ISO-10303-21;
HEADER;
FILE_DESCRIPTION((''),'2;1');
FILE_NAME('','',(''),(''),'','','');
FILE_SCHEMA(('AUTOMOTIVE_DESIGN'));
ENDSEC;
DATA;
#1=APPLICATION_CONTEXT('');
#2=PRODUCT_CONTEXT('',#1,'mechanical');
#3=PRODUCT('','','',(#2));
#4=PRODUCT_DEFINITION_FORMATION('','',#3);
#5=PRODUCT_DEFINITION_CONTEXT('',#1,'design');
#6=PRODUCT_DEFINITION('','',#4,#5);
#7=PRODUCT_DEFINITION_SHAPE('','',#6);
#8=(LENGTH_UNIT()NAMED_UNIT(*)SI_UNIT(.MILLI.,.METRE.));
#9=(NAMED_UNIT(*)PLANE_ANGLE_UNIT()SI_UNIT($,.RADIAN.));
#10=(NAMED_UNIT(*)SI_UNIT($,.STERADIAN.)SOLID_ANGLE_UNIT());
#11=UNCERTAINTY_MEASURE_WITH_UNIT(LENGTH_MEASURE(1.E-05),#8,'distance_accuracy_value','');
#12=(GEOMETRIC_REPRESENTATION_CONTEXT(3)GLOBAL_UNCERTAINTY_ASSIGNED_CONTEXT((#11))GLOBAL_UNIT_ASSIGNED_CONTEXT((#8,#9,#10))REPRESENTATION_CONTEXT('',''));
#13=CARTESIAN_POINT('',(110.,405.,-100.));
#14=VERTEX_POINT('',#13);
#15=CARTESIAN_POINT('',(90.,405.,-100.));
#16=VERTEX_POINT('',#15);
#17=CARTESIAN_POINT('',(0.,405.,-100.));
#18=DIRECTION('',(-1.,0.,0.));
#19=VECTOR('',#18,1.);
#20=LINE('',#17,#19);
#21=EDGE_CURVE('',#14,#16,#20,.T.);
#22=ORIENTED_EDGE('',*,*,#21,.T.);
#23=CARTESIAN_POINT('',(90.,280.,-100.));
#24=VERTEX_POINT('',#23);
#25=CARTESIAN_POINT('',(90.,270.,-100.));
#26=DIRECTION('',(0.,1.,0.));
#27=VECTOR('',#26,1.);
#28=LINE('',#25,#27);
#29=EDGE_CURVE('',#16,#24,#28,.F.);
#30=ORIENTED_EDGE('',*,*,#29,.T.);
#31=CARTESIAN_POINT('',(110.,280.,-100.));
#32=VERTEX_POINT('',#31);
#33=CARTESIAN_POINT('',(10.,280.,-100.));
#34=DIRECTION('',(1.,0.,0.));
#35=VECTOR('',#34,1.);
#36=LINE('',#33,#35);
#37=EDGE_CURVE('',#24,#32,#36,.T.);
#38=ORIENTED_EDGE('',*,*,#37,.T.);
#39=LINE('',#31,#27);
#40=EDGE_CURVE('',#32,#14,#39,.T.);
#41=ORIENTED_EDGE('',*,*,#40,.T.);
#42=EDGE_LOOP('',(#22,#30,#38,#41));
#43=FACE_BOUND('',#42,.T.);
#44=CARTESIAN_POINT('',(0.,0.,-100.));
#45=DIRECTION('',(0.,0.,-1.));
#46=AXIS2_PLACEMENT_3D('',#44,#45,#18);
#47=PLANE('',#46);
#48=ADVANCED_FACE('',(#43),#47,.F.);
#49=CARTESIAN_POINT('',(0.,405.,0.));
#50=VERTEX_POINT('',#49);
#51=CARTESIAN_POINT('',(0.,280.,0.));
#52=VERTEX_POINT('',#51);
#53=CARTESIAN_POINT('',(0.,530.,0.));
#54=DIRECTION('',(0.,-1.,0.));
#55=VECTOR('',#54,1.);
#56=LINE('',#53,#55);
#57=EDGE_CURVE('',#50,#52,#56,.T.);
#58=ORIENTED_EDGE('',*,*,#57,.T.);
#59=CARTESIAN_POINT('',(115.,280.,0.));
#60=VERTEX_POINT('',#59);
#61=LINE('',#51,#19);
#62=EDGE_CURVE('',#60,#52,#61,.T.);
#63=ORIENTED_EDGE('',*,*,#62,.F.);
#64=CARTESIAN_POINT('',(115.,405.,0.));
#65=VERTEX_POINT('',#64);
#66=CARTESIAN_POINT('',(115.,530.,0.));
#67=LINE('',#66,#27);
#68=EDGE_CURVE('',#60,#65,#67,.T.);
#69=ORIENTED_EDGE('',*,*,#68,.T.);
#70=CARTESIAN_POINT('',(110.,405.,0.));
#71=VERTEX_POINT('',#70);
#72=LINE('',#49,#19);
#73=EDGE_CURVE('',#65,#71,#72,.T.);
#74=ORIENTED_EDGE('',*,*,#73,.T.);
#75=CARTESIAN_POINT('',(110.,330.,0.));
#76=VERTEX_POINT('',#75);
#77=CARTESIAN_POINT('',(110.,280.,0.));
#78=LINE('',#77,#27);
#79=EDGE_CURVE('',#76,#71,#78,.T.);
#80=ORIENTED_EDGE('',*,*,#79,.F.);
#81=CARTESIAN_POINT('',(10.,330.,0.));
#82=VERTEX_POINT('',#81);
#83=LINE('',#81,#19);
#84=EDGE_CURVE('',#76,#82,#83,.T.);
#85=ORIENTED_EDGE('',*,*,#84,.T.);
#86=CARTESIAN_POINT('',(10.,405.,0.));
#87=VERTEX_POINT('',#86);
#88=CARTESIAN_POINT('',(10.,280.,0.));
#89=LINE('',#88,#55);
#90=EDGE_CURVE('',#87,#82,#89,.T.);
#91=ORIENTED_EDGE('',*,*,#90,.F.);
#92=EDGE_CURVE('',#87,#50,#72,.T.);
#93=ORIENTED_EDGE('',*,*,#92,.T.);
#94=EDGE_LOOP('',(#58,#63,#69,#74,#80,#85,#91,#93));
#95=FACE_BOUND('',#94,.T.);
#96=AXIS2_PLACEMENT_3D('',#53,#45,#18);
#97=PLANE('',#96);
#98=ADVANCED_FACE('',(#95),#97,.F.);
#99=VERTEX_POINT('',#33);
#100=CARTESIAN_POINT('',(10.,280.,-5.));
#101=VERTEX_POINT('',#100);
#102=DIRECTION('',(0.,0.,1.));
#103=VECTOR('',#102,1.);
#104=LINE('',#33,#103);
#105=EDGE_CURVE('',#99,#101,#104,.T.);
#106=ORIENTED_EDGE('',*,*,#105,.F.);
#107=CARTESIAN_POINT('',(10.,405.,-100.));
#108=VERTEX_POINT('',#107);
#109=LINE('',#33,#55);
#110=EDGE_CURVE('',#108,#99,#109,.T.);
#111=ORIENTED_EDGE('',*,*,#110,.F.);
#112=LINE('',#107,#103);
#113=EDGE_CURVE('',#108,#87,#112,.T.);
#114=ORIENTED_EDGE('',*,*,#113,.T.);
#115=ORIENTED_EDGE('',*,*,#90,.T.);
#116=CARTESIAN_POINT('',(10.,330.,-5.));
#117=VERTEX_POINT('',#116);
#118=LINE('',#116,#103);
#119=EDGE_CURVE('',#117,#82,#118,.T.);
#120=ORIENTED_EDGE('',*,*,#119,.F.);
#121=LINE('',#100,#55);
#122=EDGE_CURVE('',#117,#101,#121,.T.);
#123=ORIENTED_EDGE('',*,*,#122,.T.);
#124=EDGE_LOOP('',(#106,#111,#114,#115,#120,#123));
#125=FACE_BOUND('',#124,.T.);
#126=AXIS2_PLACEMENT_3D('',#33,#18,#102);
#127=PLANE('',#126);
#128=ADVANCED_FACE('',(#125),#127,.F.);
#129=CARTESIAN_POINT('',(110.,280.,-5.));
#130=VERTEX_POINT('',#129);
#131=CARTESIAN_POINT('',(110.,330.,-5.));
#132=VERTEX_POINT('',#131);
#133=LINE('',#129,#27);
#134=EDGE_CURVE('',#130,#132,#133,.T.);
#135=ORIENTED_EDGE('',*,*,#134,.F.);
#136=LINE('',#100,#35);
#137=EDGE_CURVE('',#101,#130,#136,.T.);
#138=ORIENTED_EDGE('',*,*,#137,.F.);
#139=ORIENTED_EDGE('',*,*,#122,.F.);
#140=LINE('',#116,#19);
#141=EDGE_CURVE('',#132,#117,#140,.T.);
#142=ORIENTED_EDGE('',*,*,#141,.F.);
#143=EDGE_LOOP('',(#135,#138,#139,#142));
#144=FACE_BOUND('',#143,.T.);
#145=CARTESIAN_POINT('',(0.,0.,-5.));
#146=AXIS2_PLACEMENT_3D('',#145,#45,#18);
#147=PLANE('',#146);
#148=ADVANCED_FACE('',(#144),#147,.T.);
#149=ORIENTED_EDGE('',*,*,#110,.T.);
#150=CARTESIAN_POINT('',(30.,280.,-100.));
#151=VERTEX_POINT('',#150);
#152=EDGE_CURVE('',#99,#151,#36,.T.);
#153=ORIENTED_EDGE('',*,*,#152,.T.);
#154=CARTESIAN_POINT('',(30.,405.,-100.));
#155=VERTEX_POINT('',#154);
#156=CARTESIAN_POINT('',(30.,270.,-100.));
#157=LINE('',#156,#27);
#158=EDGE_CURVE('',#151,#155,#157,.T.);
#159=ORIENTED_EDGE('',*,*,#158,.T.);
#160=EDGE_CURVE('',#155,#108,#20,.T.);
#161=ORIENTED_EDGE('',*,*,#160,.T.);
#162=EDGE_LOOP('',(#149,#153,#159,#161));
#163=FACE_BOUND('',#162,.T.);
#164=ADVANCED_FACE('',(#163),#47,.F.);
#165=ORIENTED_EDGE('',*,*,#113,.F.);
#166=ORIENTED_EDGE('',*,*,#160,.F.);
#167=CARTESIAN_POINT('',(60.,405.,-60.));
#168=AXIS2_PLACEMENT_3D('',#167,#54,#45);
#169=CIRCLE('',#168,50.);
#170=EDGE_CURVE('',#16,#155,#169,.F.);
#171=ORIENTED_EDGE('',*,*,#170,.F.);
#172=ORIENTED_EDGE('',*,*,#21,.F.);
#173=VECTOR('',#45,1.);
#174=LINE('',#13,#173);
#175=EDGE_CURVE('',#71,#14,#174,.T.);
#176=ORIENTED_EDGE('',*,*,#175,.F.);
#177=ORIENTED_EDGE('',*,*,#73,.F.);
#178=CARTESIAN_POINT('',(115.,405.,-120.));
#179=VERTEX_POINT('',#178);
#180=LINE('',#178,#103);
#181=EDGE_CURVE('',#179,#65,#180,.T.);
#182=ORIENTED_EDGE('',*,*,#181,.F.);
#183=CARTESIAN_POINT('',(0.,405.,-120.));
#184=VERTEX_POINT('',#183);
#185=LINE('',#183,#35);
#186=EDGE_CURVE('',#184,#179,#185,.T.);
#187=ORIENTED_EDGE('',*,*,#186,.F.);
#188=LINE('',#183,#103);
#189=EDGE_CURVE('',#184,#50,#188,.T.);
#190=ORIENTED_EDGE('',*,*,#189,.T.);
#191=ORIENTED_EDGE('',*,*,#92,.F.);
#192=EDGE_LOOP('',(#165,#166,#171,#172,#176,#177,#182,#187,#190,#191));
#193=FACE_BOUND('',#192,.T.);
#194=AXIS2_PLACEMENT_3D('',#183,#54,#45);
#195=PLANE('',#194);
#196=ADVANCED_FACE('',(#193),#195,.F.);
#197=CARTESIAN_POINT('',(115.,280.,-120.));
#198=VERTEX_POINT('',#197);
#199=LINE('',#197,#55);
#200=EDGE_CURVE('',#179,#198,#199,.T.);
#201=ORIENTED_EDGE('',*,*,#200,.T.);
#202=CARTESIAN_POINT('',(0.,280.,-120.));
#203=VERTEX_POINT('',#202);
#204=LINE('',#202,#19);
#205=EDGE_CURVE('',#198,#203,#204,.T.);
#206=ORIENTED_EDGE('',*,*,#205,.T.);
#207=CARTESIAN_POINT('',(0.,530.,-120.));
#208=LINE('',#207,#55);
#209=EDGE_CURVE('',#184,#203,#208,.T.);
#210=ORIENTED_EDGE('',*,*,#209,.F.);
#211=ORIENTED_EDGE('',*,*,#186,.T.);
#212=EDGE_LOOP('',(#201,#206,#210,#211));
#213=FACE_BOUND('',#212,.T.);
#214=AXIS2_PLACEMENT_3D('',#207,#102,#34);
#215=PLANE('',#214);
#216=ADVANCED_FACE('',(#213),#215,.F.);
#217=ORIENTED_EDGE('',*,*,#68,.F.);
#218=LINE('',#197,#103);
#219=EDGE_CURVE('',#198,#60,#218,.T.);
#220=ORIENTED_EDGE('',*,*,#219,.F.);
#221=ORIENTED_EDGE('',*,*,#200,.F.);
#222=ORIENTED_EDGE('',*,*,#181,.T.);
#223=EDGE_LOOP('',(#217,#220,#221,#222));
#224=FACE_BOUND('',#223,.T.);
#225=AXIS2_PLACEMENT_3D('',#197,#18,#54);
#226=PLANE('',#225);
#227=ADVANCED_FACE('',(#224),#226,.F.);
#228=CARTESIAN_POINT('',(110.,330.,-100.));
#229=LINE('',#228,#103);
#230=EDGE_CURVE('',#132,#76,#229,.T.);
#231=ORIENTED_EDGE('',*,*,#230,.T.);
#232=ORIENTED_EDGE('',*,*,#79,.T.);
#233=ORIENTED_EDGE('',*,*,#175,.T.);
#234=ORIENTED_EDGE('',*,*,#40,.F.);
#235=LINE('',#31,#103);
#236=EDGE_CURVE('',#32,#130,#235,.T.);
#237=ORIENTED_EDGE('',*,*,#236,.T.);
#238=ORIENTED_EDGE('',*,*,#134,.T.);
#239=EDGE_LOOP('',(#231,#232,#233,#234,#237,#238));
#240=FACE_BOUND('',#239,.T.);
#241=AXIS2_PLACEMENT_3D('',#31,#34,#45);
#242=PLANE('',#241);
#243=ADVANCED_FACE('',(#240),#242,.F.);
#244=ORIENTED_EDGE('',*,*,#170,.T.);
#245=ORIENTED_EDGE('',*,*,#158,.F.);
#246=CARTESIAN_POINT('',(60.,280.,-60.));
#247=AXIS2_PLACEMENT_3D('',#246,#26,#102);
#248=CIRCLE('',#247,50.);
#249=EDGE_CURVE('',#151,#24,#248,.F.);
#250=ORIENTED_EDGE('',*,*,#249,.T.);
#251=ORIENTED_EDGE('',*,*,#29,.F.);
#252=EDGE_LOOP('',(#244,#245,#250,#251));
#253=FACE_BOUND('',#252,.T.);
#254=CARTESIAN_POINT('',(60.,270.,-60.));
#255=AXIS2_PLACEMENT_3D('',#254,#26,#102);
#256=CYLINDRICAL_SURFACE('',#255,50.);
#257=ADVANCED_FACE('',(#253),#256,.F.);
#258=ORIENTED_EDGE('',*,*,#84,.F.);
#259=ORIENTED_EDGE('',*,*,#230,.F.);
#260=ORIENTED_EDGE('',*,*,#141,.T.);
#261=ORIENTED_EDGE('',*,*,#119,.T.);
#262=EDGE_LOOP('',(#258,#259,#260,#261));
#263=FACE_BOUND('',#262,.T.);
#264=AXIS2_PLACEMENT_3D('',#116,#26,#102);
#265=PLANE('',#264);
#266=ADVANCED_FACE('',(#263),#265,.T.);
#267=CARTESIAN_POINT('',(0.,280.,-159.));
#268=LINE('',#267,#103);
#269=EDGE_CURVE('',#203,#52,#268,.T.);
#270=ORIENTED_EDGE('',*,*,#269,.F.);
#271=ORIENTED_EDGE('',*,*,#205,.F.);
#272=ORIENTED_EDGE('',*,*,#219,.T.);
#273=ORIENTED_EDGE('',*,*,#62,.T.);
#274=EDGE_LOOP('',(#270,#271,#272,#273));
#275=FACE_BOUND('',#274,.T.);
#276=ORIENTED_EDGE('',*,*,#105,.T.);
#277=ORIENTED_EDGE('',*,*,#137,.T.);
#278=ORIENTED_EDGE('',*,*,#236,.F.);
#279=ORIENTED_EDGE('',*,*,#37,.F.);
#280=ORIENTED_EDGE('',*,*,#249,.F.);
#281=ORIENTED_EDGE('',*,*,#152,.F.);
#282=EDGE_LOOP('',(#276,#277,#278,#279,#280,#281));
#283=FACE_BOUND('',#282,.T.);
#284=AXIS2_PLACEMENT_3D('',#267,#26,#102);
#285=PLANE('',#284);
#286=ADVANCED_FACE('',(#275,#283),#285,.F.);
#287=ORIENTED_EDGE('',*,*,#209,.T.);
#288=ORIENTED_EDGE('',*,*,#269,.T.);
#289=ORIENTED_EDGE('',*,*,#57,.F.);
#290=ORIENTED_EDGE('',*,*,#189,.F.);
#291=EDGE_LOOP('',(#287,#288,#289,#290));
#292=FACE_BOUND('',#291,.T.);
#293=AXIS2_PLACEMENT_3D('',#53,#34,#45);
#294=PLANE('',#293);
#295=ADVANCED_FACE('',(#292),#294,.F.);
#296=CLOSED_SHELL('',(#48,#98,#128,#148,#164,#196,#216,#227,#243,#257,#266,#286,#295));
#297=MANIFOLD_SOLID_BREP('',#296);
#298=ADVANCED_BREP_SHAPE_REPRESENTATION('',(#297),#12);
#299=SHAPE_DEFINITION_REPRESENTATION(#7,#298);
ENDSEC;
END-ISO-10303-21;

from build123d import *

# Parameters (mm, degrees)
SKETCH1_W                      = 670
SKETCH1_H                      = 120
BOSS_EXTRUDE1_DEPTH            = 530
SKETCH2_W                      = 100
SKETCH2_H                      = 200
SKETCH2_W_2                    = 650
SKETCH2_H_2                    = 250
CUT_EXTRUDE1_DEPTH             = 100
SKETCH3_R                      = 50
CUT_EXTRUDE2_DEPTH             = 260
F_12_0_12_DIAMETER_HOLE2_D     = 12
F_12_0_12_DIAMETER_HOLE2_DEPTH = 30
F_12_0_12_DIAMETER_HOLE2_TIP   = 3.605163714
SKETCH8_W                      = 650
SKETCH8_H                      = 50
BOSS_EXTRUDE2_DEPTH            = 5
SKETCH9_W                      = 10
SKETCH9_H                      = 250
CUT_EXTRUDE3_DEPTH             = 717
CUT_EXTRUDE4_DEPTH             = 5
SKETCH11_W                     = 10
SKETCH11_H                     = 100
BOSS_EXTRUDE3_DEPTH            = 78
BOSS_EXTRUDE3_2_DEPTH          = 78
BOSS_EXTRUDE3_3_DEPTH          = 78
SKETCH12_W                     = 20
SKETCH12_H                     = 30
CUT_EXTRUDE5_DEPTH             = 80
SKETCH15_W                     = 30
SKETCH15_H                     = 23.536156656
SKETCH15_H_2                   = 28.986603691
CUT_EXTRUDE7_DEPTH             = 35
SHELL1_T                       = -3
SKETCH16_W                     = 14
SKETCH16_H                     = 14
CUT_EXTRUDE8_DEPTH             = 35
SKETCH17_W                     = 5.729882812
SKETCH17_H                     = 17.428393554
SKETCH17_W_2                   = 13.369726562
SKETCH17_H_2                   = 3.342431641
BOSS_EXTRUDE4_DEPTH            = 5
SKETCH18_W                     = 670
SKETCH18_H                     = 280
CUT_EXTRUDE10_DEPTH            = 159
CUT_EXTRUDE11_DEPTH            = 863.670273187
CUT_EXTRUDE11_DEPTH_BACK       = 863.670273187
SKETCH19_W                     = 555
SKETCH19_H                     = 250
CUT_EXTRUDE12_DEPTH            = 556.450267801
CUT_EXTRUDE12_DEPTH_BACK       = 556.450267801
SKETCH20_W                     = 115
SKETCH20_H                     = 125


with BuildPart() as part:
    # Sketch1 → Boss-Extrude1 (new body)
    with BuildSketch(Plane(origin=(0, 0, 0), x_dir=(1, 0, 0), z_dir=(0, 1, 0))):
        with Locations((335, 60)):
            Rectangle(SKETCH1_W, SKETCH1_H)
    extrude(amount=BOSS_EXTRUDE1_DEPTH)

    # Sketch2 → Cut-Extrude1 (cut)
    with BuildSketch(Plane.XY):
        with Locations((60, 380)):
            Rectangle(SKETCH2_W, SKETCH2_H)
        with Locations((170, 380)):
            Rectangle(SKETCH2_W, SKETCH2_H)
        with Locations((280, 380)):
            Rectangle(SKETCH2_W, SKETCH2_H)
        with Locations((390, 380)):
            Rectangle(SKETCH2_W, SKETCH2_H)
        with Locations((500, 380)):
            Rectangle(SKETCH2_W, SKETCH2_H)
        with Locations((610, 380)):
            Rectangle(SKETCH2_W, SKETCH2_H)
        with Locations((335, 135)):
            Rectangle(SKETCH2_W_2, SKETCH2_H_2)
    extrude(amount=-CUT_EXTRUDE1_DEPTH, mode=Mode.SUBTRACT)

    # Sketch3 → Cut-Extrude2 (cut)
    with BuildSketch(Plane(origin=(0, 530, 0), x_dir=(1, 0, 0), z_dir=(0, 1, 0))):
        with Locations(Location((60, 60, 0), (0, 0, 270))):
            Circle(SKETCH3_R)
        with Locations(Location((170, 60, 0), (0, 0, 270))):
            Circle(SKETCH3_R)
        with Locations(Location((280, 60, 0), (0, 0, 270))):
            Circle(SKETCH3_R)
        with Locations(Location((390, 60, 0), (0, 0, 270))):
            Circle(SKETCH3_R)
        with Locations(Location((500, 60, 0), (0, 0, 270))):
            Circle(SKETCH3_R)
        with Locations(Location((610, 60, 0), (0, 0, 270))):
            Circle(SKETCH3_R)
    extrude(amount=-CUT_EXTRUDE2_DEPTH, mode=Mode.SUBTRACT)

    # Ø12.0 (12) Diameter Hole2
    with Locations(Plane(origin=(59.704642413, 270, -102.411697903), x_dir=(0, 0, 1), z_dir=(0, 1, 0))):
        with Locations((0, 0), (-0.195888006, 111.8520513), (0.014838595, 221.167624818), (-0.341843303, 331.364008353), (0.657723149, 441.008646429), (1.288998006, 549.811854685)):
            Hole(F_12_0_12_DIAMETER_HOLE2_D / 2, depth=F_12_0_12_DIAMETER_HOLE2_DEPTH)
            with Locations((0, 0, -(F_12_0_12_DIAMETER_HOLE2_DEPTH + F_12_0_12_DIAMETER_HOLE2_TIP / 2))):  # 118° drill point
                Cone(0, F_12_0_12_DIAMETER_HOLE2_D / 2, F_12_0_12_DIAMETER_HOLE2_TIP, mode=Mode.SUBTRACT)

    # Sketch8 → Boss-Extrude2 (add)
    with BuildSketch(Plane.XY):
        with Locations((335, 305)):
            Rectangle(SKETCH8_W, SKETCH8_H)
    extrude(amount=-BOSS_EXTRUDE2_DEPTH)

    # Sketch9 → Cut-Extrude3 (cut)
    with BuildSketch(Plane(origin=(670, 0, 0), x_dir=(0, 0, -1), z_dir=(1, 0, 0))):
        with Locations((15, 135)):
            Rectangle(SKETCH9_W, SKETCH9_H)
    extrude(amount=-CUT_EXTRUDE3_DEPTH, mode=Mode.SUBTRACT)

    # Sketch10 → Cut-Extrude4 (cut)
    with BuildSketch(Plane(origin=(0, 10, 0), x_dir=(1, 0, 0), z_dir=(0, 1, 0))):
        Polygon((365, 61.943560596), (350, 87.924322709), (320, 87.924322709), (305, 61.943560596), (320, 35.962798482), (350, 35.962798482), align=None)
    extrude(amount=-CUT_EXTRUDE4_DEPTH, mode=Mode.SUBTRACT)

    # Sketch12 → Cut-Extrude5 (cut)
    with BuildSketch(Plane.XY.offset(-100)):
        with Locations((85.198613037, 245)):
            Rectangle(SKETCH12_W, SKETCH12_H)
        with Locations((195.198613037, 245)):
            Rectangle(SKETCH12_W, SKETCH12_H)
        with Locations((305.198613037, 245)):
            Rectangle(SKETCH12_W, SKETCH12_H)
        with Locations((415.198613037, 245)):
            Rectangle(SKETCH12_W, SKETCH12_H)
        with Locations((525.198613037, 245)):
            Rectangle(SKETCH12_W, SKETCH12_H)
        with Locations((635.198613037, 245)):
            Rectangle(SKETCH12_W, SKETCH12_H)
    extrude(amount=-CUT_EXTRUDE5_DEPTH, mode=Mode.SUBTRACT)

    # Sketch17 → Boss-Extrude4 (add)
    # profile 1 of 9: a face of its own
    with BuildSketch(Plane.XY):
        with BuildLine():
            Line((527.508830928, 289.835452458), (527.508830928, 307.263846012))
            Line((527.508830928, 307.263846012), (534.861434459, 307.263846012))
            add(Edge.make_bspline(
                [(534.861434459, 307.263846012), (535.181337774, 307.258256848), (535.803061116, 307.24739446), (536.703508491, 307.139069344), (537.544992916, 306.975202489), (538.325061607, 306.737496792), (539.040841948, 306.426020155), (539.698044515, 306.051894954), (540.290333057, 305.605079277), (540.822348212, 305.090232636), (541.284521701, 304.502523111), (541.692171296, 303.852565801), (542.030284458, 303.129762281), (542.309377095, 302.341316546), (542.5243908, 301.484161689), (542.679660381, 300.560045938), (542.773357357, 299.567500804), (542.783368073, 298.883107022), (542.788518428, 298.530997273)],
                knots=[0, 0, 0, 0, 1.135059408, 2.20595691, 3.214417064, 4.174978569, 5.094187092, 5.980001006, 6.853065862, 7.720814779, 8.600404634, 9.50058483, 10.438414914, 11.426825708, 12.465239141, 13.571113463, 14.750376389, 16, 16, 16, 16], degree=3))
            add(Edge.make_bspline(
                [(542.788518428, 298.530997273), (542.781740751, 298.180151665), (542.768592871, 297.499553336), (542.676885992, 296.511518461), (542.516733301, 295.591080531), (542.296748778, 294.736450427), (542.003051046, 293.953120444), (541.654236167, 293.233205539), (541.233025793, 292.585291498), (540.753136904, 292.000029304), (540.204772188, 291.484681411), (539.587651059, 291.044279297), (538.910779309, 290.668464036), (538.169670382, 290.361903209), (537.364073889, 290.124869172), (536.495133477, 289.954199984), (535.562644449, 289.853487388), (534.920131033, 289.841584621), (534.58911581, 289.835452458)],
                knots=[0, 0, 0, 0, 1.228418252, 2.382983832, 3.470276728, 4.496757894, 5.468023682, 6.394867725, 7.292157164, 8.167372942, 9.039072913, 9.918728341, 10.815246345, 11.744296628, 12.720973084, 13.750736166, 14.841206188, 16, 16, 16, 16], degree=3))
            Line((534.58911581, 289.835452458), (527.508830928, 289.835452458))
        make_face()
        with BuildLine():
            Line((533.238713741, 291.745413395), (534.048208904, 291.745413395))
            add(Edge.make_bspline(
                [(534.048208904, 291.745413395), (534.172894012, 291.749291978), (534.413033311, 291.756761998), (534.758676231, 291.825976613), (535.075745017, 291.938271137), (535.365749176, 292.094802589), (535.623404602, 292.300450923), (535.848862806, 292.551404902), (536.04776914, 292.844737637), (536.217685755, 293.190205032), (536.364284647, 293.596533622), (536.481764702, 294.076367921), (536.592118304, 294.630928744), (536.673672739, 295.265507643), (536.740044562, 295.978448886), (536.788346679, 296.768428292), (536.812018936, 297.636801208), (536.817188964, 298.241258393), (536.819890499, 298.55711002)],
                knots=[0, 0, 0, 0, 0.728710832, 1.403472396, 2.052289494, 2.690292559, 3.321919393, 3.970736491, 4.656696891, 5.388631723, 6.217040872, 7.17856157, 8.275589967, 9.523440737, 10.918935818, 12.463926104, 14.152268318, 16, 16, 16, 16], degree=3))
            add(Edge.make_bspline(
                [(536.819890499, 298.55711002), (536.8171426, 298.871715251), (536.811863063, 299.476166083), (536.7886758, 300.343334385), (536.739579947, 301.133216935), (536.674703848, 301.843934916), (536.589660404, 302.476324031), (536.488366458, 303.031681737), (536.362441588, 303.507627045), (536.222158727, 303.914921549), (536.050140993, 304.256514038), (535.858357073, 304.554097881), (535.62547107, 304.79746827), (535.36991257, 305.004888479), (535.079348843, 305.160875844), (534.761320266, 305.273944358), (534.414185903, 305.34216807), (534.172870641, 305.349893944), (534.048208904, 305.353885075)],
                knots=[0, 0, 0, 0, 1.842836665, 3.540640921, 5.080358154, 6.47765669, 7.719902824, 8.816971715, 9.781579111, 10.601733135, 11.334613876, 12.017393917, 12.666641099, 13.29908421, 13.937911793, 14.587567384, 15.270347425, 16, 16, 16, 16], degree=3))
            Line((534.048208904, 305.353885075), (533.238713741, 305.353885075))
            Line((533.238713741, 305.353885075), (533.238713741, 291.745413395))
        make_face(mode=Mode.SUBTRACT)
    # profile 2 of 9: a face of its own
    with BuildSketch(Plane.XY):
        with Locations((547.563420772, 298.549649235)):
            Rectangle(SKETCH17_W, SKETCH17_H)
    # profile 3 of 9: a face of its own
    with BuildSketch(Plane.XY):
        Polygon((564.514324092, 307.263846012), (564.514324092, 305.115139958), (558.545696163, 305.115139958), (558.545696163, 299.862747379), (563.559343624, 299.862747379), (563.559343624, 297.714041325), (558.545696163, 297.714041325), (558.545696163, 289.835452458), (552.81581335, 289.835452458), (552.81581335, 307.263846012), align=None)
    # profile 4 of 9: a face of its own
    with BuildSketch(Plane.XY):
        Polygon((577.645305538, 307.263846012), (577.645305538, 305.115139958), (571.676677608, 305.115139958), (571.676677608, 299.862747379), (576.690325069, 299.862747379), (576.690325069, 297.714041325), (571.676677608, 297.714041325), (571.676677608, 289.835452458), (565.946794795, 289.835452458), (565.946794795, 307.263846012), align=None)
    # profile 5 of 9: a face of its own
    with BuildSketch(Plane.XY):
        with Locations((584.330168819, 287.448001286)):
            Rectangle(SKETCH17_W_2, SKETCH17_H_2)
    # profile 6 of 9: a face of its own
    with BuildSketch(Plane.XY):
        with BuildLine():
            Line((605.578484249, 307.263846012), (605.578484249, 295.602639195))
            add(Edge.make_bspline(
                [(605.578484249, 295.602639195), (605.574209777, 295.35989389), (605.565919345, 294.889083964), (605.480877158, 294.20653885), (605.349958188, 293.569747554), (605.15926554, 292.978838165), (604.911867049, 292.436847071), (604.616163877, 291.936663973), (604.260702644, 291.487723021), (603.847299908, 291.08966617), (603.386881991, 290.731670113), (602.867295001, 290.425440037), (602.293741958, 290.168488385), (601.66690529, 289.960990771), (600.988052682, 289.797299786), (600.254912883, 289.679078851), (599.467035781, 289.60781007), (598.923618241, 289.60048219), (598.643684673, 289.59670734)],
                knots=[0, 0, 0, 0, 1.108173197, 2.149326602, 3.136215123, 4.073726706, 4.978516626, 5.852185058, 6.72141202, 7.584905625, 8.467554395, 9.379216169, 10.332422268, 11.332766067, 12.390653242, 13.518530507, 14.721707419, 16, 16, 16, 16], degree=3))
            add(Edge.make_bspline(
                [(598.643684673, 289.59670734), (598.373688491, 289.600411437), (597.851346557, 289.607577482), (597.093280473, 289.679448684), (596.387523889, 289.797736542), (595.733050135, 289.960122315), (595.130189942, 290.169220301), (594.579048171, 290.42623041), (594.078350789, 290.732835498), (593.633858028, 291.090104794), (593.234289459, 291.486851767), (592.899913678, 291.940746827), (592.609043638, 292.435866034), (592.375223767, 292.980322997), (592.191754821, 293.570441519), (592.063541006, 294.20666921), (591.983676196, 294.889343196), (591.974661767, 295.359932437), (591.970012569, 295.602639195)],
                knots=[0, 0, 0, 0, 1.258901956, 2.435505865, 3.547148904, 4.59359074, 5.576649289, 6.5183682, 7.424469602, 8.307507093, 9.172751023, 10.042627298, 10.928839176, 11.845659241, 12.799442865, 13.80597989, 14.868432463, 16, 16, 16, 16], degree=3))
            Line((591.970012569, 295.602639195), (591.970012569, 307.263846012))
            Line((591.970012569, 307.263846012), (597.699895381, 307.263846012))
            Line((597.699895381, 307.263846012), (597.699895381, 295.457153889))
            add(Edge.make_bspline(
                [(597.699895381, 295.457153889), (597.700816195, 295.287996189), (597.702584578, 294.963135903), (597.729908723, 294.499051493), (597.768241004, 294.079064133), (597.828226169, 293.705517832), (597.90066041, 293.377063412), (597.989882091, 293.09281535), (598.094998068, 292.852496478), (598.225239063, 292.654232043), (598.380826623, 292.495135011), (598.55368342, 292.353231761), (598.757556996, 292.238543846), (598.987648905, 292.146224908), (599.243380948, 292.070549638), (599.526120553, 292.020376099), (599.83553351, 291.990763905), (600.049971942, 291.986424568), (600.161954402, 291.984158512)],
                knots=[0, 0, 0, 0, 1.622370975, 3.115695595, 4.458049099, 5.666011203, 6.742434742, 7.681714947, 8.519814998, 9.250928664, 9.942747364, 10.646898194, 11.389596108, 12.175933929, 13.021386247, 13.943159715, 14.925891993, 16, 16, 16, 16], degree=3))
            add(Edge.make_bspline(
                [(600.161954402, 291.984158512), (600.283927219, 291.987190593), (600.521124756, 291.993087005), (600.86597014, 292.03390861), (601.187714881, 292.103380086), (601.484890424, 292.205377303), (601.758665297, 292.332852529), (602.012761516, 292.484567923), (602.236391413, 292.674631152), (602.439076761, 292.888441291), (602.620738276, 293.128529789), (602.771757722, 293.399928575), (602.905501548, 293.697121508), (603.005823683, 294.025060118), (603.089837826, 294.379999499), (603.146989706, 294.763086929), (603.186210275, 295.174074524), (603.189394751, 295.457053988), (603.191033077, 295.602639195)],
                knots=[0, 0, 0, 0, 1.083870311, 2.107775948, 3.08105344, 4.003637981, 4.893545291, 5.761570557, 6.624657808, 7.49233129, 8.376387281, 9.291996285, 10.246843261, 11.267344133, 12.334180325, 13.486053461, 14.706643157, 16, 16, 16, 16], degree=3))
            Line((603.191033077, 295.602639195), (603.191033077, 307.263846012))
            Line((603.191033077, 307.263846012), (605.578484249, 307.263846012))
        make_face()
    # profile 7 of 9: a face of its own
    with BuildSketch(Plane.XY):
        with BuildLine():
            Line((619.731593227, 302.015183827), (616.739818477, 301.526502415))
            add(Edge.make_bspline(
                [(616.739818477, 301.526502415), (616.748849224, 301.670726223), (616.765660669, 301.939210177), (616.78429066, 302.312269209), (616.796668381, 302.625642376), (616.798628236, 302.814722915), (616.799504756, 302.899286839)],
                knots=[0, 0, 0, 0, 1.261802504, 2.348944521, 3.261585937, 4, 4, 4, 4], degree=3))
            add(Edge.make_bspline(
                [(616.799504756, 302.899286839), (616.798306068, 303.007660677), (616.795968139, 303.219033721), (616.750451916, 303.523894877), (616.694806916, 303.811547356), (616.604352699, 304.076787391), (616.488181329, 304.320314265), (616.348943917, 304.543955606), (616.184187178, 304.745078709), (615.995833421, 304.928129987), (615.778009957, 305.083200131), (615.536269472, 305.218702836), (615.269765326, 305.333844758), (614.978065514, 305.431346685), (614.660683072, 305.504624438), (614.319025281, 305.556776695), (613.952471696, 305.585673441), (613.699597795, 305.590260771), (613.568984889, 305.592630192)],
                knots=[0, 0, 0, 0, 1.079280541, 2.105035848, 3.067950317, 3.99715044, 4.889989748, 5.753421302, 6.617030865, 7.476358039, 8.364190572, 9.274590025, 10.235106994, 11.254473582, 12.337095886, 13.478601727, 14.697662529, 16, 16, 16, 16], degree=3))
            add(Edge.make_bspline(
                [(613.568984889, 305.592630192), (613.391954632, 305.58912286), (613.059112606, 305.582528579), (612.595688488, 305.495339748), (612.198743126, 305.361419257), (611.87165349, 305.163811893), (611.613188167, 304.909795747), (611.433841092, 304.593316589), (611.323009072, 304.224665915), (611.313400221, 303.959558324), (611.308367061, 303.820693775)],
                knots=[0, 0, 0, 0, 1.294917039, 2.43462794, 3.440028966, 4.347597256, 5.210608309, 6.06356377, 6.985685997, 8, 8, 8, 8], degree=3))
            add(Edge.make_bspline(
                [(611.308367061, 303.820693775), (611.317562032, 303.705133219), (611.336106628, 303.472068433), (611.47315858, 303.132808312), (611.695999602, 302.811560885), (612.009295906, 302.510664216), (612.404107796, 302.221967273), (612.884407504, 301.948533431), (613.450813789, 301.688189695), (613.862519081, 301.536023727), (614.080048656, 301.455624958)],
                knots=[0, 0, 0, 0, 0.716839541, 1.445735977, 2.240793036, 3.131329288, 4.131129903, 5.273471266, 6.559404876, 8, 8, 8, 8], degree=3))
            add(Edge.make_bspline(
                [(614.080048656, 301.455624958), (614.335934702, 301.364918412), (614.834564244, 301.188164095), (615.547657928, 300.88707802), (616.213068388, 300.5749594), (616.829579094, 300.246613346), (617.397833174, 299.90520698), (617.914851624, 299.544556457), (618.386199073, 299.173962102), (618.807001026, 298.783874588), (619.177995113, 298.378100064), (619.4958685, 297.952745357), (619.771807525, 297.51723103), (619.991113975, 297.061458502), (620.169645242, 296.594624218), (620.292698657, 296.11024444), (620.364288243, 295.609761088), (620.37516617, 295.270864226), (620.380681514, 295.099036213)],
                knots=[0, 0, 0, 0, 1.359488612, 2.649152603, 3.874964776, 5.039588756, 6.146130126, 7.193090393, 8.194917302, 9.146793662, 10.063845301, 10.944476293, 11.803344532, 12.641736646, 13.473440096, 14.302714936, 15.139439897, 16, 16, 16, 16], degree=3))
            add(Edge.make_bspline(
                [(620.380681514, 295.099036213), (620.374476075, 294.902306495), (620.362285176, 294.515820995), (620.280160209, 293.948630617), (620.138011896, 293.409496554), (619.938489338, 292.895972278), (619.681049879, 292.411946655), (619.366518754, 291.954381076), (618.996510229, 291.525099427), (618.5710008, 291.128381035), (618.102222518, 290.765302239), (617.587803957, 290.450854345), (617.034458515, 290.187092261), (616.444107988, 289.968993032), (615.81453624, 289.801373099), (615.145337453, 289.685291013), (614.438790193, 289.606619894), (613.954683001, 289.600062276), (613.70700941, 289.59670734)],
                knots=[0, 0, 0, 0, 0.972121714, 1.909782367, 2.824924061, 3.721832975, 4.62620438, 5.527836938, 6.46026819, 7.421000932, 8.398101015, 9.385579713, 10.394244048, 11.422703992, 12.491421888, 13.608778581, 14.776629625, 16, 16, 16, 16], degree=3))
            add(Edge.make_bspline(
                [(613.70700941, 289.59670734), (613.445745367, 289.599650312), (612.939893069, 289.605348413), (612.207608113, 289.66709241), (611.525297432, 289.760984454), (610.893395078, 289.899706116), (610.309273131, 290.072394336), (609.776099392, 290.288320955), (609.295310255, 290.547303481), (608.863217672, 290.843007892), (608.478306623, 291.175775461), (608.148120946, 291.551766865), (607.86942369, 291.967163224), (607.639947144, 292.421521488), (607.466477665, 292.917583541), (607.339164663, 293.449829748), (607.264537999, 294.021332449), (607.254747521, 294.414908557), (607.249700069, 294.617815586)],
                knots=[0, 0, 0, 0, 1.342201143, 2.598733168, 3.773451092, 4.878874364, 5.91991243, 6.900006476, 7.829142054, 8.72062616, 9.585588575, 10.436728592, 11.283829734, 12.149664931, 13.044964919, 13.977937424, 14.957531465, 16, 16, 16, 16], degree=3))
            add(Edge.make_bspline(
                [(607.249700069, 294.617815586), (607.250803815, 294.692425759), (607.253213998, 294.855347393), (607.260452266, 295.122772538), (607.275636683, 295.433682216), (607.29037174, 295.656130545), (607.298195171, 295.774237248)],
                knots=[0, 0, 0, 0, 0.773500207, 1.689044709, 2.77302154, 4, 4, 4, 4], degree=3))
            Line((607.298195171, 295.774237248), (610.36457777, 296.337526509))
            add(Edge.make_bspline(
                [(610.36457777, 296.337526509), (610.326952988, 296.136337493), (610.255606535, 295.754830366), (610.178678473, 295.21219969), (610.124206629, 294.733311493), (610.11767002, 294.435147371), (610.114641475, 294.297001835)],
                knots=[0, 0, 0, 0, 1.192988372, 2.262218769, 3.194850416, 4, 4, 4, 4], degree=3))
            add(Edge.make_bspline(
                [(610.114641475, 294.297001835), (610.116191817, 294.183708768), (610.119182568, 293.965156219), (610.159053378, 293.648552813), (610.215988606, 293.352999663), (610.302906772, 293.079707227), (610.411206928, 292.826307836), (610.544682453, 292.59538211), (610.704385489, 292.386485019), (610.887496571, 292.200099922), (611.094689168, 292.033628705), (611.327456494, 291.892756696), (611.58347653, 291.771733922), (611.864681562, 291.677479524), (612.167961721, 291.596080628), (612.497219749, 291.548235723), (612.849461228, 291.512043782), (613.092629543, 291.508500084), (613.218327999, 291.506668278)],
                knots=[0, 0, 0, 0, 1.135776692, 2.191015738, 3.19649269, 4.151244236, 5.061952528, 5.956281389, 6.819534407, 7.692823504, 8.571441916, 9.478554956, 10.416037156, 11.406231466, 12.450054172, 13.561596327, 14.739541482, 16, 16, 16, 16], degree=3))
            add(Edge.make_bspline(
                [(613.218327999, 291.506668278), (613.423996012, 291.510791273), (613.810619321, 291.518541853), (614.349272542, 291.616708407), (614.810575885, 291.768742445), (615.189785268, 291.991387532), (615.490778961, 292.278756613), (615.698005174, 292.637320004), (615.824813318, 293.05638326), (615.837728413, 293.355975238), (615.844524288, 293.513619419)],
                knots=[0, 0, 0, 0, 1.308765556, 2.460272085, 3.475015317, 4.388076298, 5.239673503, 6.095681635, 6.997954785, 8, 8, 8, 8], degree=3))
            add(Edge.make_bspline(
                [(615.844524288, 293.513619419), (615.833808824, 293.638242951), (615.811807312, 293.894126055), (615.644884004, 294.264515838), (615.382382362, 294.620631473), (615.016807277, 294.962984909), (614.551376589, 295.293471235), (613.986957743, 295.616730224), (613.322148235, 295.933112033), (612.83677959, 296.119639164), (612.580430889, 296.21815395)],
                knots=[0, 0, 0, 0, 0.667930748, 1.371427933, 2.146459016, 3.034714139, 4.04893387, 5.207327294, 6.525042705, 8, 8, 8, 8], degree=3))
            add(Edge.make_bspline(
                [(612.580430889, 296.21815395), (612.374354345, 296.29679374), (611.970646869, 296.450850434), (611.394079385, 296.713586304), (610.853066711, 296.987016804), (610.357486361, 297.288235735), (609.896382561, 297.599610528), (609.477036946, 297.932256792), (609.09841673, 298.284556341), (608.758710772, 298.653375077), (608.457302107, 299.038989264), (608.199448649, 299.444659231), (607.977533299, 299.866789834), (607.798609588, 300.308107488), (607.65975715, 300.767821241), (607.559616231, 301.244439392), (607.497905054, 301.739995674), (607.491630423, 302.075933546), (607.488445186, 302.246468159)],
                knots=[0, 0, 0, 0, 1.249558333, 2.447906163, 3.58867143, 4.682264114, 5.731748367, 6.739728761, 7.711906036, 8.659384707, 9.578321416, 10.481344598, 11.379544271, 12.277135726, 13.175418307, 14.097160112, 15.034047388, 16, 16, 16, 16], degree=3))
            add(Edge.make_bspline(
                [(607.488445186, 302.246468159), (607.49282555, 302.439538736), (607.501402184, 302.817565692), (607.587451154, 303.36980586), (607.719291893, 303.894921371), (607.910558542, 304.389343064), (608.156192894, 304.852853762), (608.453187669, 305.288766511), (608.804241719, 305.697593471), (609.213503754, 306.066686531), (609.657214714, 306.407618241), (610.14376173, 306.697651931), (610.658716537, 306.950861947), (611.210636666, 307.148827868), (611.791820619, 307.313252612), (612.408080529, 307.421140415), (613.056315391, 307.490701612), (613.499160755, 307.498567824), (613.725661373, 307.502591129)],
                knots=[0, 0, 0, 0, 1.01033566, 1.978209831, 2.919499157, 3.840961976, 4.746855014, 5.660740114, 6.597989116, 7.56120833, 8.541877795, 9.523498025, 10.522416858, 11.542172371, 12.589598349, 13.681636521, 14.814234488, 16, 16, 16, 16], degree=3))
            add(Edge.make_bspline(
                [(613.725661373, 307.502591129), (613.968269855, 307.498219033), (614.438190994, 307.489750488), (615.120391152, 307.426787419), (615.755073228, 307.319142339), (616.345153155, 307.171557286), (616.887304575, 306.977590666), (617.384933999, 306.742393454), (617.834452216, 306.46201507), (618.236961315, 306.139451502), (618.593086714, 305.773322851), (618.897467704, 305.361641069), (619.158701245, 304.909408454), (619.366684143, 304.412232174), (619.529870326, 303.873247147), (619.649133834, 303.29158184), (619.720420497, 302.667301443), (619.72779778, 302.236712324), (619.731593227, 302.015183827)],
                knots=[0, 0, 0, 0, 1.248314423, 2.417925914, 3.521398822, 4.558068205, 5.543720209, 6.479599284, 7.385061127, 8.263440163, 9.127722873, 10.00561236, 10.891325273, 11.808802823, 12.772251995, 13.784947978, 14.860405143, 16, 16, 16, 16], degree=3))
        make_face()
    # profile 8 of 9: a face of its own
    with BuildSketch(Plane.XY):
        Polygon((633.989153194, 307.263846012), (633.989153194, 305.115139958), (628.020525264, 305.115139958), (628.020525264, 300.340237614), (633.034172725, 300.340237614), (633.034172725, 298.191531559), (628.020525264, 298.191531559), (628.020525264, 291.984158512), (634.944133663, 291.984158512), (634.944133663, 289.835452458), (622.290642452, 289.835452458), (622.290642452, 307.263846012), align=None)
    # profile 9 of 9: a face of its own
    with BuildSketch(Plane.XY):
        with BuildLine():
            Line((636.376604366, 289.835452458), (636.376604366, 307.263846012))
            Line((636.376604366, 307.263846012), (643.990335369, 307.263846012))
            add(Edge.make_bspline(
                [(643.990335369, 307.263846012), (644.237946498, 307.261150834), (644.721600887, 307.25588639), (645.426490561, 307.189203683), (646.094808274, 307.090496236), (646.724915796, 306.949857504), (647.317873659, 306.767252686), (647.871119087, 306.542146), (648.390701058, 306.282329135), (648.864494846, 305.976472528), (649.295093616, 305.642889252), (649.669668547, 305.279483604), (649.990389523, 304.894749072), (650.250664962, 304.483256345), (650.454275633, 304.048690948), (650.59581384, 303.587791605), (650.684089268, 303.104102537), (650.695510601, 302.772834174), (650.701311397, 302.604585835)],
                knots=[0, 0, 0, 0, 1.303269877, 2.545653735, 3.724355284, 4.8584284, 5.941462088, 6.987020715, 8.000098032, 8.995332524, 9.951400474, 10.863507538, 11.737823931, 12.582415999, 13.420128714, 14.25671499, 15.114600608, 16, 16, 16, 16], degree=3))
            add(Edge.make_bspline(
                [(650.701311397, 302.604585835), (650.698282873, 302.472674957), (650.692382063, 302.215658276), (650.651041486, 301.838684287), (650.580643818, 301.480313933), (650.481036683, 301.139915259), (650.347814833, 300.820175594), (650.191279492, 300.517863507), (650.009772227, 300.230553342), (649.788675198, 299.970497982), (649.548268341, 299.722842359), (649.274558803, 299.497116911), (648.974487035, 299.288655528), (648.642526299, 299.104010513), (648.287619671, 298.928055749), (647.899038177, 298.784921972), (647.486819978, 298.644749395), (647.19793098, 298.577036306), (647.049257183, 298.54218845)],
                knots=[0, 0, 0, 0, 1.057156483, 2.059775939, 3.035078039, 3.981068617, 4.897189472, 5.80650904, 6.70770952, 7.613691521, 8.536886357, 9.470937334, 10.45233069, 11.461024139, 12.51295332, 13.623444893, 14.776929983, 16, 16, 16, 16], degree=3))
            add(Edge.make_bspline(
                [(647.049257183, 298.54218845), (647.19164695, 298.499279419), (647.467865022, 298.416041346), (647.856360945, 298.265600017), (648.211652989, 298.111536308), (648.524185739, 297.936781388), (648.807636894, 297.762122504), (649.047122259, 297.564301324), (649.255235567, 297.361673563), (649.425188343, 297.135464734), (649.570253643, 296.882344437), (649.694827156, 296.586596707), (649.815179167, 296.247423665), (649.917667348, 295.859098311), (650.004750555, 295.423699276), (650.088222437, 294.944027189), (650.153853601, 294.416024546), (650.187587341, 294.048412906), (650.2051692, 293.856815525)],
                knots=[0, 0, 0, 0, 1.149282524, 2.229462177, 3.219229774, 4.139917433, 4.995948464, 5.788695735, 6.536448429, 7.236319808, 7.968460079, 8.78645307, 9.713791991, 10.749194692, 11.887975363, 13.146018663, 14.512518948, 16, 16, 16, 16], degree=3))
            add(Edge.make_bspline(
                [(650.2051692, 293.856815525), (650.225980287, 293.627849833), (650.265975604, 293.187817268), (650.348933081, 292.554613589), (650.44386163, 291.974357025), (650.555874504, 291.44528724), (650.681301216, 290.967898855), (650.821280597, 290.540469593), (650.979920039, 290.165788217), (651.10484481, 289.941461656), (651.163880062, 289.835452458)],
                knots=[0, 0, 0, 0, 1.324580516, 2.545615266, 3.678710841, 4.711533017, 5.660403917, 6.521349952, 7.301239649, 8, 8, 8, 8], degree=3))
            Line((651.163880062, 289.835452458), (645.213904094, 289.835452458))
            add(Edge.make_bspline(
                [(645.213904094, 289.835452458), (645.12229736, 290.069847279), (644.935171241, 290.548648246), (644.7595281, 291.319414791), (644.64846922, 292.142514735), (644.635117598, 292.70994511), (644.628232479, 293.002555653)],
                knots=[0, 0, 0, 0, 0.930410518, 1.900560147, 2.917368081, 4, 4, 4, 4], degree=3))
            Line((644.628232479, 293.002555653), (644.605850124, 294.002300831))
            Line((644.605850124, 294.002300831), (644.579737377, 295.266903874))
            add(Edge.make_bspline(
                [(644.579737377, 295.266903874), (644.573694669, 295.477395004), (644.562357007, 295.872330118), (644.469348432, 296.426164013), (644.30178735, 296.894645884), (644.073222546, 297.287223005), (643.766741442, 297.590613479), (643.39104803, 297.804152917), (642.950456912, 297.93396284), (642.634664848, 297.946292392), (642.468335247, 297.952786442)],
                knots=[0, 0, 0, 0, 1.295300309, 2.430314163, 3.439929415, 4.342995669, 5.203512789, 6.060756153, 6.978588463, 8, 8, 8, 8], degree=3))
            Line((642.468335247, 297.952786442), (642.106487178, 297.952786442))
            Line((642.106487178, 297.952786442), (642.106487178, 289.835452458))
            Line((642.106487178, 289.835452458), (636.376604366, 289.835452458))
        make_face()
        with BuildLine():
            Line((642.106487178, 299.862747379), (642.617550945, 299.862747379))
            add(Edge.make_bspline(
                [(642.617550945, 299.862747379), (642.722054451, 299.865172716), (642.925280724, 299.869889229), (643.220054897, 299.898289891), (643.494111408, 299.951809873), (643.749840966, 300.021017819), (643.984372137, 300.114851792), (644.200147241, 300.225818296), (644.391160406, 300.362685327), (644.565327067, 300.516342321), (644.718148635, 300.691986294), (644.850351299, 300.889034217), (644.961199162, 301.106225057), (645.056078491, 301.342818683), (645.125883912, 301.600830857), (645.173262731, 301.879472914), (645.203404658, 302.177423605), (645.207875435, 302.383174491), (645.210173702, 302.488943669)],
                knots=[0, 0, 0, 0, 1.184986479, 2.304423995, 3.352332712, 4.347714965, 5.303263624, 6.211353909, 7.091434645, 7.960150225, 8.839440182, 9.723126897, 10.64371617, 11.599264829, 12.608232147, 13.667459739, 14.800924404, 16, 16, 16, 16], degree=3))
            add(Edge.make_bspline(
                [(645.210173702, 302.488943669), (645.207875435, 302.594712847), (645.203404658, 302.800463732), (645.173262731, 303.098414423), (645.125883912, 303.37705648), (645.056078491, 303.635068654), (644.961199162, 303.87166228), (644.850351299, 304.08885312), (644.718148635, 304.285901043), (644.565327067, 304.461545017), (644.391160406, 304.61520201), (644.200147241, 304.752069041), (643.984372137, 304.863035546), (643.749840966, 304.956869518), (643.494111408, 305.026077464), (643.220054897, 305.079597446), (642.925280724, 305.107998108), (642.722054451, 305.112714621), (642.617550945, 305.115139958)],
                knots=[0, 0, 0, 0, 1.199075596, 2.332540261, 3.391767853, 4.400735171, 5.35628383, 6.276873103, 7.160559818, 8.039849775, 8.908565355, 9.788646091, 10.696736376, 11.652285035, 12.647667288, 13.695576005, 14.815013521, 16, 16, 16, 16], degree=3))
            Line((642.617550945, 305.115139958), (642.106487178, 305.115139958))
            Line((642.106487178, 305.115139958), (642.106487178, 299.862747379))
        make_face(mode=Mode.SUBTRACT)
    extrude(amount=BOSS_EXTRUDE4_DEPTH)


with BuildPart() as body_2:
    # Sketch11 → Boss-Extrude3 (new body)
    with BuildSketch(Plane.XY.offset(-100)):
        with Locations((255, 60)):
            Rectangle(SKETCH11_W, SKETCH11_H)
    extrude(amount=BOSS_EXTRUDE3_DEPTH)


with BuildPart() as body_3:
    # Sketch11 → Boss-Extrude3 2 (new body)
    with BuildSketch(Plane.XY.offset(-100)):
        with Locations((415, 60)):
            Rectangle(SKETCH11_W, SKETCH11_H)
    extrude(amount=BOSS_EXTRUDE3_2_DEPTH)


with BuildPart() as body_4:
    # Sketch11 → Boss-Extrude3 3 (new body)
    with BuildSketch(Plane.XY.offset(-100)):
        Polygon((25, 198.45686471), (325, 145.558770497), (325, 122.01775856), (345, 122.01775856), (345, 145.558770497), (645, 198.45686471), align=None)
    extrude(amount=BOSS_EXTRUDE3_3_DEPTH)

    # Sketch15 → Cut-Extrude7 (cut)
    with BuildSketch(Plane(origin=(345, 0, 0), x_dir=(0, 0, -1), z_dir=(1, 0, 0))):
        with Locations((35, 133.231921672)):
            Rectangle(SKETCH15_W, SKETCH15_H)
        with Locations((85, 130.506698154)):
            Rectangle(SKETCH15_W, SKETCH15_H_2)
    extrude(amount=-CUT_EXTRUDE7_DEPTH, mode=Mode.SUBTRACT)

    # Shell1
    shell1_openings = [body_4.faces().sort_by_distance(p)[0] for p in [
        (335, 198.45686471, -61),
    ]]
    offset(amount=SHELL1_T, openings=shell1_openings, kind=Kind.INTERSECTION)

    # Sketch16 → Cut-Extrude8 (cut)
    with BuildSketch(Plane.XZ.offset(-122.01775856)):
        with Locations((335, -60)):
            Rectangle(SKETCH16_W, SKETCH16_H)
    extrude(amount=-CUT_EXTRUDE8_DEPTH, mode=Mode.SUBTRACT)


with BuildPart() as cut_extrude10_tool:
    # Sketch18 → Cut-Extrude10 (new body)
    with BuildSketch(Plane.XY):
        with Locations((335, 140)):
            Rectangle(SKETCH18_W, SKETCH18_H)
    extrude(amount=-CUT_EXTRUDE10_DEPTH)


with BuildPart() as part_1:
    add(part.part)

    # Cut-Extrude10: cut by cut_extrude10_tool
    add(cut_extrude10_tool.part, mode=Mode.SUBTRACT)

    # Sketch19 → Cut-Extrude11 (cut, two sides: drawn at the far end of the back side and taken through both)
    with BuildSketch(Plane.XY.offset(-CUT_EXTRUDE11_DEPTH_BACK)):
        with Locations((392.5, 405)):
            Rectangle(SKETCH19_W, SKETCH19_H)
    extrude(amount=CUT_EXTRUDE11_DEPTH + CUT_EXTRUDE11_DEPTH_BACK, mode=Mode.SUBTRACT)

    # Sketch20 → Cut-Extrude12 (cut, two sides: drawn at the far end of the back side and taken through both)
    with BuildSketch(Plane.XY.offset(-CUT_EXTRUDE12_DEPTH_BACK)):
        with Locations((57.5, 467.5)):
            Rectangle(SKETCH20_W, SKETCH20_H)
    extrude(amount=CUT_EXTRUDE12_DEPTH + CUT_EXTRUDE12_DEPTH_BACK, mode=Mode.SUBTRACT)


with BuildPart() as body_2_1:
    add(body_2.part)

    # Cut-Extrude10: cut by cut_extrude10_tool
    add(cut_extrude10_tool.part, mode=Mode.SUBTRACT)


with BuildPart() as body_3_1:
    add(body_3.part)

    # Cut-Extrude10: cut by cut_extrude10_tool
    add(cut_extrude10_tool.part, mode=Mode.SUBTRACT)


with BuildPart() as body_4_1:
    add(body_4.part)

    # Cut-Extrude10: cut by cut_extrude10_tool
    add(cut_extrude10_tool.part, mode=Mode.SUBTRACT)


solid = part_1.part
